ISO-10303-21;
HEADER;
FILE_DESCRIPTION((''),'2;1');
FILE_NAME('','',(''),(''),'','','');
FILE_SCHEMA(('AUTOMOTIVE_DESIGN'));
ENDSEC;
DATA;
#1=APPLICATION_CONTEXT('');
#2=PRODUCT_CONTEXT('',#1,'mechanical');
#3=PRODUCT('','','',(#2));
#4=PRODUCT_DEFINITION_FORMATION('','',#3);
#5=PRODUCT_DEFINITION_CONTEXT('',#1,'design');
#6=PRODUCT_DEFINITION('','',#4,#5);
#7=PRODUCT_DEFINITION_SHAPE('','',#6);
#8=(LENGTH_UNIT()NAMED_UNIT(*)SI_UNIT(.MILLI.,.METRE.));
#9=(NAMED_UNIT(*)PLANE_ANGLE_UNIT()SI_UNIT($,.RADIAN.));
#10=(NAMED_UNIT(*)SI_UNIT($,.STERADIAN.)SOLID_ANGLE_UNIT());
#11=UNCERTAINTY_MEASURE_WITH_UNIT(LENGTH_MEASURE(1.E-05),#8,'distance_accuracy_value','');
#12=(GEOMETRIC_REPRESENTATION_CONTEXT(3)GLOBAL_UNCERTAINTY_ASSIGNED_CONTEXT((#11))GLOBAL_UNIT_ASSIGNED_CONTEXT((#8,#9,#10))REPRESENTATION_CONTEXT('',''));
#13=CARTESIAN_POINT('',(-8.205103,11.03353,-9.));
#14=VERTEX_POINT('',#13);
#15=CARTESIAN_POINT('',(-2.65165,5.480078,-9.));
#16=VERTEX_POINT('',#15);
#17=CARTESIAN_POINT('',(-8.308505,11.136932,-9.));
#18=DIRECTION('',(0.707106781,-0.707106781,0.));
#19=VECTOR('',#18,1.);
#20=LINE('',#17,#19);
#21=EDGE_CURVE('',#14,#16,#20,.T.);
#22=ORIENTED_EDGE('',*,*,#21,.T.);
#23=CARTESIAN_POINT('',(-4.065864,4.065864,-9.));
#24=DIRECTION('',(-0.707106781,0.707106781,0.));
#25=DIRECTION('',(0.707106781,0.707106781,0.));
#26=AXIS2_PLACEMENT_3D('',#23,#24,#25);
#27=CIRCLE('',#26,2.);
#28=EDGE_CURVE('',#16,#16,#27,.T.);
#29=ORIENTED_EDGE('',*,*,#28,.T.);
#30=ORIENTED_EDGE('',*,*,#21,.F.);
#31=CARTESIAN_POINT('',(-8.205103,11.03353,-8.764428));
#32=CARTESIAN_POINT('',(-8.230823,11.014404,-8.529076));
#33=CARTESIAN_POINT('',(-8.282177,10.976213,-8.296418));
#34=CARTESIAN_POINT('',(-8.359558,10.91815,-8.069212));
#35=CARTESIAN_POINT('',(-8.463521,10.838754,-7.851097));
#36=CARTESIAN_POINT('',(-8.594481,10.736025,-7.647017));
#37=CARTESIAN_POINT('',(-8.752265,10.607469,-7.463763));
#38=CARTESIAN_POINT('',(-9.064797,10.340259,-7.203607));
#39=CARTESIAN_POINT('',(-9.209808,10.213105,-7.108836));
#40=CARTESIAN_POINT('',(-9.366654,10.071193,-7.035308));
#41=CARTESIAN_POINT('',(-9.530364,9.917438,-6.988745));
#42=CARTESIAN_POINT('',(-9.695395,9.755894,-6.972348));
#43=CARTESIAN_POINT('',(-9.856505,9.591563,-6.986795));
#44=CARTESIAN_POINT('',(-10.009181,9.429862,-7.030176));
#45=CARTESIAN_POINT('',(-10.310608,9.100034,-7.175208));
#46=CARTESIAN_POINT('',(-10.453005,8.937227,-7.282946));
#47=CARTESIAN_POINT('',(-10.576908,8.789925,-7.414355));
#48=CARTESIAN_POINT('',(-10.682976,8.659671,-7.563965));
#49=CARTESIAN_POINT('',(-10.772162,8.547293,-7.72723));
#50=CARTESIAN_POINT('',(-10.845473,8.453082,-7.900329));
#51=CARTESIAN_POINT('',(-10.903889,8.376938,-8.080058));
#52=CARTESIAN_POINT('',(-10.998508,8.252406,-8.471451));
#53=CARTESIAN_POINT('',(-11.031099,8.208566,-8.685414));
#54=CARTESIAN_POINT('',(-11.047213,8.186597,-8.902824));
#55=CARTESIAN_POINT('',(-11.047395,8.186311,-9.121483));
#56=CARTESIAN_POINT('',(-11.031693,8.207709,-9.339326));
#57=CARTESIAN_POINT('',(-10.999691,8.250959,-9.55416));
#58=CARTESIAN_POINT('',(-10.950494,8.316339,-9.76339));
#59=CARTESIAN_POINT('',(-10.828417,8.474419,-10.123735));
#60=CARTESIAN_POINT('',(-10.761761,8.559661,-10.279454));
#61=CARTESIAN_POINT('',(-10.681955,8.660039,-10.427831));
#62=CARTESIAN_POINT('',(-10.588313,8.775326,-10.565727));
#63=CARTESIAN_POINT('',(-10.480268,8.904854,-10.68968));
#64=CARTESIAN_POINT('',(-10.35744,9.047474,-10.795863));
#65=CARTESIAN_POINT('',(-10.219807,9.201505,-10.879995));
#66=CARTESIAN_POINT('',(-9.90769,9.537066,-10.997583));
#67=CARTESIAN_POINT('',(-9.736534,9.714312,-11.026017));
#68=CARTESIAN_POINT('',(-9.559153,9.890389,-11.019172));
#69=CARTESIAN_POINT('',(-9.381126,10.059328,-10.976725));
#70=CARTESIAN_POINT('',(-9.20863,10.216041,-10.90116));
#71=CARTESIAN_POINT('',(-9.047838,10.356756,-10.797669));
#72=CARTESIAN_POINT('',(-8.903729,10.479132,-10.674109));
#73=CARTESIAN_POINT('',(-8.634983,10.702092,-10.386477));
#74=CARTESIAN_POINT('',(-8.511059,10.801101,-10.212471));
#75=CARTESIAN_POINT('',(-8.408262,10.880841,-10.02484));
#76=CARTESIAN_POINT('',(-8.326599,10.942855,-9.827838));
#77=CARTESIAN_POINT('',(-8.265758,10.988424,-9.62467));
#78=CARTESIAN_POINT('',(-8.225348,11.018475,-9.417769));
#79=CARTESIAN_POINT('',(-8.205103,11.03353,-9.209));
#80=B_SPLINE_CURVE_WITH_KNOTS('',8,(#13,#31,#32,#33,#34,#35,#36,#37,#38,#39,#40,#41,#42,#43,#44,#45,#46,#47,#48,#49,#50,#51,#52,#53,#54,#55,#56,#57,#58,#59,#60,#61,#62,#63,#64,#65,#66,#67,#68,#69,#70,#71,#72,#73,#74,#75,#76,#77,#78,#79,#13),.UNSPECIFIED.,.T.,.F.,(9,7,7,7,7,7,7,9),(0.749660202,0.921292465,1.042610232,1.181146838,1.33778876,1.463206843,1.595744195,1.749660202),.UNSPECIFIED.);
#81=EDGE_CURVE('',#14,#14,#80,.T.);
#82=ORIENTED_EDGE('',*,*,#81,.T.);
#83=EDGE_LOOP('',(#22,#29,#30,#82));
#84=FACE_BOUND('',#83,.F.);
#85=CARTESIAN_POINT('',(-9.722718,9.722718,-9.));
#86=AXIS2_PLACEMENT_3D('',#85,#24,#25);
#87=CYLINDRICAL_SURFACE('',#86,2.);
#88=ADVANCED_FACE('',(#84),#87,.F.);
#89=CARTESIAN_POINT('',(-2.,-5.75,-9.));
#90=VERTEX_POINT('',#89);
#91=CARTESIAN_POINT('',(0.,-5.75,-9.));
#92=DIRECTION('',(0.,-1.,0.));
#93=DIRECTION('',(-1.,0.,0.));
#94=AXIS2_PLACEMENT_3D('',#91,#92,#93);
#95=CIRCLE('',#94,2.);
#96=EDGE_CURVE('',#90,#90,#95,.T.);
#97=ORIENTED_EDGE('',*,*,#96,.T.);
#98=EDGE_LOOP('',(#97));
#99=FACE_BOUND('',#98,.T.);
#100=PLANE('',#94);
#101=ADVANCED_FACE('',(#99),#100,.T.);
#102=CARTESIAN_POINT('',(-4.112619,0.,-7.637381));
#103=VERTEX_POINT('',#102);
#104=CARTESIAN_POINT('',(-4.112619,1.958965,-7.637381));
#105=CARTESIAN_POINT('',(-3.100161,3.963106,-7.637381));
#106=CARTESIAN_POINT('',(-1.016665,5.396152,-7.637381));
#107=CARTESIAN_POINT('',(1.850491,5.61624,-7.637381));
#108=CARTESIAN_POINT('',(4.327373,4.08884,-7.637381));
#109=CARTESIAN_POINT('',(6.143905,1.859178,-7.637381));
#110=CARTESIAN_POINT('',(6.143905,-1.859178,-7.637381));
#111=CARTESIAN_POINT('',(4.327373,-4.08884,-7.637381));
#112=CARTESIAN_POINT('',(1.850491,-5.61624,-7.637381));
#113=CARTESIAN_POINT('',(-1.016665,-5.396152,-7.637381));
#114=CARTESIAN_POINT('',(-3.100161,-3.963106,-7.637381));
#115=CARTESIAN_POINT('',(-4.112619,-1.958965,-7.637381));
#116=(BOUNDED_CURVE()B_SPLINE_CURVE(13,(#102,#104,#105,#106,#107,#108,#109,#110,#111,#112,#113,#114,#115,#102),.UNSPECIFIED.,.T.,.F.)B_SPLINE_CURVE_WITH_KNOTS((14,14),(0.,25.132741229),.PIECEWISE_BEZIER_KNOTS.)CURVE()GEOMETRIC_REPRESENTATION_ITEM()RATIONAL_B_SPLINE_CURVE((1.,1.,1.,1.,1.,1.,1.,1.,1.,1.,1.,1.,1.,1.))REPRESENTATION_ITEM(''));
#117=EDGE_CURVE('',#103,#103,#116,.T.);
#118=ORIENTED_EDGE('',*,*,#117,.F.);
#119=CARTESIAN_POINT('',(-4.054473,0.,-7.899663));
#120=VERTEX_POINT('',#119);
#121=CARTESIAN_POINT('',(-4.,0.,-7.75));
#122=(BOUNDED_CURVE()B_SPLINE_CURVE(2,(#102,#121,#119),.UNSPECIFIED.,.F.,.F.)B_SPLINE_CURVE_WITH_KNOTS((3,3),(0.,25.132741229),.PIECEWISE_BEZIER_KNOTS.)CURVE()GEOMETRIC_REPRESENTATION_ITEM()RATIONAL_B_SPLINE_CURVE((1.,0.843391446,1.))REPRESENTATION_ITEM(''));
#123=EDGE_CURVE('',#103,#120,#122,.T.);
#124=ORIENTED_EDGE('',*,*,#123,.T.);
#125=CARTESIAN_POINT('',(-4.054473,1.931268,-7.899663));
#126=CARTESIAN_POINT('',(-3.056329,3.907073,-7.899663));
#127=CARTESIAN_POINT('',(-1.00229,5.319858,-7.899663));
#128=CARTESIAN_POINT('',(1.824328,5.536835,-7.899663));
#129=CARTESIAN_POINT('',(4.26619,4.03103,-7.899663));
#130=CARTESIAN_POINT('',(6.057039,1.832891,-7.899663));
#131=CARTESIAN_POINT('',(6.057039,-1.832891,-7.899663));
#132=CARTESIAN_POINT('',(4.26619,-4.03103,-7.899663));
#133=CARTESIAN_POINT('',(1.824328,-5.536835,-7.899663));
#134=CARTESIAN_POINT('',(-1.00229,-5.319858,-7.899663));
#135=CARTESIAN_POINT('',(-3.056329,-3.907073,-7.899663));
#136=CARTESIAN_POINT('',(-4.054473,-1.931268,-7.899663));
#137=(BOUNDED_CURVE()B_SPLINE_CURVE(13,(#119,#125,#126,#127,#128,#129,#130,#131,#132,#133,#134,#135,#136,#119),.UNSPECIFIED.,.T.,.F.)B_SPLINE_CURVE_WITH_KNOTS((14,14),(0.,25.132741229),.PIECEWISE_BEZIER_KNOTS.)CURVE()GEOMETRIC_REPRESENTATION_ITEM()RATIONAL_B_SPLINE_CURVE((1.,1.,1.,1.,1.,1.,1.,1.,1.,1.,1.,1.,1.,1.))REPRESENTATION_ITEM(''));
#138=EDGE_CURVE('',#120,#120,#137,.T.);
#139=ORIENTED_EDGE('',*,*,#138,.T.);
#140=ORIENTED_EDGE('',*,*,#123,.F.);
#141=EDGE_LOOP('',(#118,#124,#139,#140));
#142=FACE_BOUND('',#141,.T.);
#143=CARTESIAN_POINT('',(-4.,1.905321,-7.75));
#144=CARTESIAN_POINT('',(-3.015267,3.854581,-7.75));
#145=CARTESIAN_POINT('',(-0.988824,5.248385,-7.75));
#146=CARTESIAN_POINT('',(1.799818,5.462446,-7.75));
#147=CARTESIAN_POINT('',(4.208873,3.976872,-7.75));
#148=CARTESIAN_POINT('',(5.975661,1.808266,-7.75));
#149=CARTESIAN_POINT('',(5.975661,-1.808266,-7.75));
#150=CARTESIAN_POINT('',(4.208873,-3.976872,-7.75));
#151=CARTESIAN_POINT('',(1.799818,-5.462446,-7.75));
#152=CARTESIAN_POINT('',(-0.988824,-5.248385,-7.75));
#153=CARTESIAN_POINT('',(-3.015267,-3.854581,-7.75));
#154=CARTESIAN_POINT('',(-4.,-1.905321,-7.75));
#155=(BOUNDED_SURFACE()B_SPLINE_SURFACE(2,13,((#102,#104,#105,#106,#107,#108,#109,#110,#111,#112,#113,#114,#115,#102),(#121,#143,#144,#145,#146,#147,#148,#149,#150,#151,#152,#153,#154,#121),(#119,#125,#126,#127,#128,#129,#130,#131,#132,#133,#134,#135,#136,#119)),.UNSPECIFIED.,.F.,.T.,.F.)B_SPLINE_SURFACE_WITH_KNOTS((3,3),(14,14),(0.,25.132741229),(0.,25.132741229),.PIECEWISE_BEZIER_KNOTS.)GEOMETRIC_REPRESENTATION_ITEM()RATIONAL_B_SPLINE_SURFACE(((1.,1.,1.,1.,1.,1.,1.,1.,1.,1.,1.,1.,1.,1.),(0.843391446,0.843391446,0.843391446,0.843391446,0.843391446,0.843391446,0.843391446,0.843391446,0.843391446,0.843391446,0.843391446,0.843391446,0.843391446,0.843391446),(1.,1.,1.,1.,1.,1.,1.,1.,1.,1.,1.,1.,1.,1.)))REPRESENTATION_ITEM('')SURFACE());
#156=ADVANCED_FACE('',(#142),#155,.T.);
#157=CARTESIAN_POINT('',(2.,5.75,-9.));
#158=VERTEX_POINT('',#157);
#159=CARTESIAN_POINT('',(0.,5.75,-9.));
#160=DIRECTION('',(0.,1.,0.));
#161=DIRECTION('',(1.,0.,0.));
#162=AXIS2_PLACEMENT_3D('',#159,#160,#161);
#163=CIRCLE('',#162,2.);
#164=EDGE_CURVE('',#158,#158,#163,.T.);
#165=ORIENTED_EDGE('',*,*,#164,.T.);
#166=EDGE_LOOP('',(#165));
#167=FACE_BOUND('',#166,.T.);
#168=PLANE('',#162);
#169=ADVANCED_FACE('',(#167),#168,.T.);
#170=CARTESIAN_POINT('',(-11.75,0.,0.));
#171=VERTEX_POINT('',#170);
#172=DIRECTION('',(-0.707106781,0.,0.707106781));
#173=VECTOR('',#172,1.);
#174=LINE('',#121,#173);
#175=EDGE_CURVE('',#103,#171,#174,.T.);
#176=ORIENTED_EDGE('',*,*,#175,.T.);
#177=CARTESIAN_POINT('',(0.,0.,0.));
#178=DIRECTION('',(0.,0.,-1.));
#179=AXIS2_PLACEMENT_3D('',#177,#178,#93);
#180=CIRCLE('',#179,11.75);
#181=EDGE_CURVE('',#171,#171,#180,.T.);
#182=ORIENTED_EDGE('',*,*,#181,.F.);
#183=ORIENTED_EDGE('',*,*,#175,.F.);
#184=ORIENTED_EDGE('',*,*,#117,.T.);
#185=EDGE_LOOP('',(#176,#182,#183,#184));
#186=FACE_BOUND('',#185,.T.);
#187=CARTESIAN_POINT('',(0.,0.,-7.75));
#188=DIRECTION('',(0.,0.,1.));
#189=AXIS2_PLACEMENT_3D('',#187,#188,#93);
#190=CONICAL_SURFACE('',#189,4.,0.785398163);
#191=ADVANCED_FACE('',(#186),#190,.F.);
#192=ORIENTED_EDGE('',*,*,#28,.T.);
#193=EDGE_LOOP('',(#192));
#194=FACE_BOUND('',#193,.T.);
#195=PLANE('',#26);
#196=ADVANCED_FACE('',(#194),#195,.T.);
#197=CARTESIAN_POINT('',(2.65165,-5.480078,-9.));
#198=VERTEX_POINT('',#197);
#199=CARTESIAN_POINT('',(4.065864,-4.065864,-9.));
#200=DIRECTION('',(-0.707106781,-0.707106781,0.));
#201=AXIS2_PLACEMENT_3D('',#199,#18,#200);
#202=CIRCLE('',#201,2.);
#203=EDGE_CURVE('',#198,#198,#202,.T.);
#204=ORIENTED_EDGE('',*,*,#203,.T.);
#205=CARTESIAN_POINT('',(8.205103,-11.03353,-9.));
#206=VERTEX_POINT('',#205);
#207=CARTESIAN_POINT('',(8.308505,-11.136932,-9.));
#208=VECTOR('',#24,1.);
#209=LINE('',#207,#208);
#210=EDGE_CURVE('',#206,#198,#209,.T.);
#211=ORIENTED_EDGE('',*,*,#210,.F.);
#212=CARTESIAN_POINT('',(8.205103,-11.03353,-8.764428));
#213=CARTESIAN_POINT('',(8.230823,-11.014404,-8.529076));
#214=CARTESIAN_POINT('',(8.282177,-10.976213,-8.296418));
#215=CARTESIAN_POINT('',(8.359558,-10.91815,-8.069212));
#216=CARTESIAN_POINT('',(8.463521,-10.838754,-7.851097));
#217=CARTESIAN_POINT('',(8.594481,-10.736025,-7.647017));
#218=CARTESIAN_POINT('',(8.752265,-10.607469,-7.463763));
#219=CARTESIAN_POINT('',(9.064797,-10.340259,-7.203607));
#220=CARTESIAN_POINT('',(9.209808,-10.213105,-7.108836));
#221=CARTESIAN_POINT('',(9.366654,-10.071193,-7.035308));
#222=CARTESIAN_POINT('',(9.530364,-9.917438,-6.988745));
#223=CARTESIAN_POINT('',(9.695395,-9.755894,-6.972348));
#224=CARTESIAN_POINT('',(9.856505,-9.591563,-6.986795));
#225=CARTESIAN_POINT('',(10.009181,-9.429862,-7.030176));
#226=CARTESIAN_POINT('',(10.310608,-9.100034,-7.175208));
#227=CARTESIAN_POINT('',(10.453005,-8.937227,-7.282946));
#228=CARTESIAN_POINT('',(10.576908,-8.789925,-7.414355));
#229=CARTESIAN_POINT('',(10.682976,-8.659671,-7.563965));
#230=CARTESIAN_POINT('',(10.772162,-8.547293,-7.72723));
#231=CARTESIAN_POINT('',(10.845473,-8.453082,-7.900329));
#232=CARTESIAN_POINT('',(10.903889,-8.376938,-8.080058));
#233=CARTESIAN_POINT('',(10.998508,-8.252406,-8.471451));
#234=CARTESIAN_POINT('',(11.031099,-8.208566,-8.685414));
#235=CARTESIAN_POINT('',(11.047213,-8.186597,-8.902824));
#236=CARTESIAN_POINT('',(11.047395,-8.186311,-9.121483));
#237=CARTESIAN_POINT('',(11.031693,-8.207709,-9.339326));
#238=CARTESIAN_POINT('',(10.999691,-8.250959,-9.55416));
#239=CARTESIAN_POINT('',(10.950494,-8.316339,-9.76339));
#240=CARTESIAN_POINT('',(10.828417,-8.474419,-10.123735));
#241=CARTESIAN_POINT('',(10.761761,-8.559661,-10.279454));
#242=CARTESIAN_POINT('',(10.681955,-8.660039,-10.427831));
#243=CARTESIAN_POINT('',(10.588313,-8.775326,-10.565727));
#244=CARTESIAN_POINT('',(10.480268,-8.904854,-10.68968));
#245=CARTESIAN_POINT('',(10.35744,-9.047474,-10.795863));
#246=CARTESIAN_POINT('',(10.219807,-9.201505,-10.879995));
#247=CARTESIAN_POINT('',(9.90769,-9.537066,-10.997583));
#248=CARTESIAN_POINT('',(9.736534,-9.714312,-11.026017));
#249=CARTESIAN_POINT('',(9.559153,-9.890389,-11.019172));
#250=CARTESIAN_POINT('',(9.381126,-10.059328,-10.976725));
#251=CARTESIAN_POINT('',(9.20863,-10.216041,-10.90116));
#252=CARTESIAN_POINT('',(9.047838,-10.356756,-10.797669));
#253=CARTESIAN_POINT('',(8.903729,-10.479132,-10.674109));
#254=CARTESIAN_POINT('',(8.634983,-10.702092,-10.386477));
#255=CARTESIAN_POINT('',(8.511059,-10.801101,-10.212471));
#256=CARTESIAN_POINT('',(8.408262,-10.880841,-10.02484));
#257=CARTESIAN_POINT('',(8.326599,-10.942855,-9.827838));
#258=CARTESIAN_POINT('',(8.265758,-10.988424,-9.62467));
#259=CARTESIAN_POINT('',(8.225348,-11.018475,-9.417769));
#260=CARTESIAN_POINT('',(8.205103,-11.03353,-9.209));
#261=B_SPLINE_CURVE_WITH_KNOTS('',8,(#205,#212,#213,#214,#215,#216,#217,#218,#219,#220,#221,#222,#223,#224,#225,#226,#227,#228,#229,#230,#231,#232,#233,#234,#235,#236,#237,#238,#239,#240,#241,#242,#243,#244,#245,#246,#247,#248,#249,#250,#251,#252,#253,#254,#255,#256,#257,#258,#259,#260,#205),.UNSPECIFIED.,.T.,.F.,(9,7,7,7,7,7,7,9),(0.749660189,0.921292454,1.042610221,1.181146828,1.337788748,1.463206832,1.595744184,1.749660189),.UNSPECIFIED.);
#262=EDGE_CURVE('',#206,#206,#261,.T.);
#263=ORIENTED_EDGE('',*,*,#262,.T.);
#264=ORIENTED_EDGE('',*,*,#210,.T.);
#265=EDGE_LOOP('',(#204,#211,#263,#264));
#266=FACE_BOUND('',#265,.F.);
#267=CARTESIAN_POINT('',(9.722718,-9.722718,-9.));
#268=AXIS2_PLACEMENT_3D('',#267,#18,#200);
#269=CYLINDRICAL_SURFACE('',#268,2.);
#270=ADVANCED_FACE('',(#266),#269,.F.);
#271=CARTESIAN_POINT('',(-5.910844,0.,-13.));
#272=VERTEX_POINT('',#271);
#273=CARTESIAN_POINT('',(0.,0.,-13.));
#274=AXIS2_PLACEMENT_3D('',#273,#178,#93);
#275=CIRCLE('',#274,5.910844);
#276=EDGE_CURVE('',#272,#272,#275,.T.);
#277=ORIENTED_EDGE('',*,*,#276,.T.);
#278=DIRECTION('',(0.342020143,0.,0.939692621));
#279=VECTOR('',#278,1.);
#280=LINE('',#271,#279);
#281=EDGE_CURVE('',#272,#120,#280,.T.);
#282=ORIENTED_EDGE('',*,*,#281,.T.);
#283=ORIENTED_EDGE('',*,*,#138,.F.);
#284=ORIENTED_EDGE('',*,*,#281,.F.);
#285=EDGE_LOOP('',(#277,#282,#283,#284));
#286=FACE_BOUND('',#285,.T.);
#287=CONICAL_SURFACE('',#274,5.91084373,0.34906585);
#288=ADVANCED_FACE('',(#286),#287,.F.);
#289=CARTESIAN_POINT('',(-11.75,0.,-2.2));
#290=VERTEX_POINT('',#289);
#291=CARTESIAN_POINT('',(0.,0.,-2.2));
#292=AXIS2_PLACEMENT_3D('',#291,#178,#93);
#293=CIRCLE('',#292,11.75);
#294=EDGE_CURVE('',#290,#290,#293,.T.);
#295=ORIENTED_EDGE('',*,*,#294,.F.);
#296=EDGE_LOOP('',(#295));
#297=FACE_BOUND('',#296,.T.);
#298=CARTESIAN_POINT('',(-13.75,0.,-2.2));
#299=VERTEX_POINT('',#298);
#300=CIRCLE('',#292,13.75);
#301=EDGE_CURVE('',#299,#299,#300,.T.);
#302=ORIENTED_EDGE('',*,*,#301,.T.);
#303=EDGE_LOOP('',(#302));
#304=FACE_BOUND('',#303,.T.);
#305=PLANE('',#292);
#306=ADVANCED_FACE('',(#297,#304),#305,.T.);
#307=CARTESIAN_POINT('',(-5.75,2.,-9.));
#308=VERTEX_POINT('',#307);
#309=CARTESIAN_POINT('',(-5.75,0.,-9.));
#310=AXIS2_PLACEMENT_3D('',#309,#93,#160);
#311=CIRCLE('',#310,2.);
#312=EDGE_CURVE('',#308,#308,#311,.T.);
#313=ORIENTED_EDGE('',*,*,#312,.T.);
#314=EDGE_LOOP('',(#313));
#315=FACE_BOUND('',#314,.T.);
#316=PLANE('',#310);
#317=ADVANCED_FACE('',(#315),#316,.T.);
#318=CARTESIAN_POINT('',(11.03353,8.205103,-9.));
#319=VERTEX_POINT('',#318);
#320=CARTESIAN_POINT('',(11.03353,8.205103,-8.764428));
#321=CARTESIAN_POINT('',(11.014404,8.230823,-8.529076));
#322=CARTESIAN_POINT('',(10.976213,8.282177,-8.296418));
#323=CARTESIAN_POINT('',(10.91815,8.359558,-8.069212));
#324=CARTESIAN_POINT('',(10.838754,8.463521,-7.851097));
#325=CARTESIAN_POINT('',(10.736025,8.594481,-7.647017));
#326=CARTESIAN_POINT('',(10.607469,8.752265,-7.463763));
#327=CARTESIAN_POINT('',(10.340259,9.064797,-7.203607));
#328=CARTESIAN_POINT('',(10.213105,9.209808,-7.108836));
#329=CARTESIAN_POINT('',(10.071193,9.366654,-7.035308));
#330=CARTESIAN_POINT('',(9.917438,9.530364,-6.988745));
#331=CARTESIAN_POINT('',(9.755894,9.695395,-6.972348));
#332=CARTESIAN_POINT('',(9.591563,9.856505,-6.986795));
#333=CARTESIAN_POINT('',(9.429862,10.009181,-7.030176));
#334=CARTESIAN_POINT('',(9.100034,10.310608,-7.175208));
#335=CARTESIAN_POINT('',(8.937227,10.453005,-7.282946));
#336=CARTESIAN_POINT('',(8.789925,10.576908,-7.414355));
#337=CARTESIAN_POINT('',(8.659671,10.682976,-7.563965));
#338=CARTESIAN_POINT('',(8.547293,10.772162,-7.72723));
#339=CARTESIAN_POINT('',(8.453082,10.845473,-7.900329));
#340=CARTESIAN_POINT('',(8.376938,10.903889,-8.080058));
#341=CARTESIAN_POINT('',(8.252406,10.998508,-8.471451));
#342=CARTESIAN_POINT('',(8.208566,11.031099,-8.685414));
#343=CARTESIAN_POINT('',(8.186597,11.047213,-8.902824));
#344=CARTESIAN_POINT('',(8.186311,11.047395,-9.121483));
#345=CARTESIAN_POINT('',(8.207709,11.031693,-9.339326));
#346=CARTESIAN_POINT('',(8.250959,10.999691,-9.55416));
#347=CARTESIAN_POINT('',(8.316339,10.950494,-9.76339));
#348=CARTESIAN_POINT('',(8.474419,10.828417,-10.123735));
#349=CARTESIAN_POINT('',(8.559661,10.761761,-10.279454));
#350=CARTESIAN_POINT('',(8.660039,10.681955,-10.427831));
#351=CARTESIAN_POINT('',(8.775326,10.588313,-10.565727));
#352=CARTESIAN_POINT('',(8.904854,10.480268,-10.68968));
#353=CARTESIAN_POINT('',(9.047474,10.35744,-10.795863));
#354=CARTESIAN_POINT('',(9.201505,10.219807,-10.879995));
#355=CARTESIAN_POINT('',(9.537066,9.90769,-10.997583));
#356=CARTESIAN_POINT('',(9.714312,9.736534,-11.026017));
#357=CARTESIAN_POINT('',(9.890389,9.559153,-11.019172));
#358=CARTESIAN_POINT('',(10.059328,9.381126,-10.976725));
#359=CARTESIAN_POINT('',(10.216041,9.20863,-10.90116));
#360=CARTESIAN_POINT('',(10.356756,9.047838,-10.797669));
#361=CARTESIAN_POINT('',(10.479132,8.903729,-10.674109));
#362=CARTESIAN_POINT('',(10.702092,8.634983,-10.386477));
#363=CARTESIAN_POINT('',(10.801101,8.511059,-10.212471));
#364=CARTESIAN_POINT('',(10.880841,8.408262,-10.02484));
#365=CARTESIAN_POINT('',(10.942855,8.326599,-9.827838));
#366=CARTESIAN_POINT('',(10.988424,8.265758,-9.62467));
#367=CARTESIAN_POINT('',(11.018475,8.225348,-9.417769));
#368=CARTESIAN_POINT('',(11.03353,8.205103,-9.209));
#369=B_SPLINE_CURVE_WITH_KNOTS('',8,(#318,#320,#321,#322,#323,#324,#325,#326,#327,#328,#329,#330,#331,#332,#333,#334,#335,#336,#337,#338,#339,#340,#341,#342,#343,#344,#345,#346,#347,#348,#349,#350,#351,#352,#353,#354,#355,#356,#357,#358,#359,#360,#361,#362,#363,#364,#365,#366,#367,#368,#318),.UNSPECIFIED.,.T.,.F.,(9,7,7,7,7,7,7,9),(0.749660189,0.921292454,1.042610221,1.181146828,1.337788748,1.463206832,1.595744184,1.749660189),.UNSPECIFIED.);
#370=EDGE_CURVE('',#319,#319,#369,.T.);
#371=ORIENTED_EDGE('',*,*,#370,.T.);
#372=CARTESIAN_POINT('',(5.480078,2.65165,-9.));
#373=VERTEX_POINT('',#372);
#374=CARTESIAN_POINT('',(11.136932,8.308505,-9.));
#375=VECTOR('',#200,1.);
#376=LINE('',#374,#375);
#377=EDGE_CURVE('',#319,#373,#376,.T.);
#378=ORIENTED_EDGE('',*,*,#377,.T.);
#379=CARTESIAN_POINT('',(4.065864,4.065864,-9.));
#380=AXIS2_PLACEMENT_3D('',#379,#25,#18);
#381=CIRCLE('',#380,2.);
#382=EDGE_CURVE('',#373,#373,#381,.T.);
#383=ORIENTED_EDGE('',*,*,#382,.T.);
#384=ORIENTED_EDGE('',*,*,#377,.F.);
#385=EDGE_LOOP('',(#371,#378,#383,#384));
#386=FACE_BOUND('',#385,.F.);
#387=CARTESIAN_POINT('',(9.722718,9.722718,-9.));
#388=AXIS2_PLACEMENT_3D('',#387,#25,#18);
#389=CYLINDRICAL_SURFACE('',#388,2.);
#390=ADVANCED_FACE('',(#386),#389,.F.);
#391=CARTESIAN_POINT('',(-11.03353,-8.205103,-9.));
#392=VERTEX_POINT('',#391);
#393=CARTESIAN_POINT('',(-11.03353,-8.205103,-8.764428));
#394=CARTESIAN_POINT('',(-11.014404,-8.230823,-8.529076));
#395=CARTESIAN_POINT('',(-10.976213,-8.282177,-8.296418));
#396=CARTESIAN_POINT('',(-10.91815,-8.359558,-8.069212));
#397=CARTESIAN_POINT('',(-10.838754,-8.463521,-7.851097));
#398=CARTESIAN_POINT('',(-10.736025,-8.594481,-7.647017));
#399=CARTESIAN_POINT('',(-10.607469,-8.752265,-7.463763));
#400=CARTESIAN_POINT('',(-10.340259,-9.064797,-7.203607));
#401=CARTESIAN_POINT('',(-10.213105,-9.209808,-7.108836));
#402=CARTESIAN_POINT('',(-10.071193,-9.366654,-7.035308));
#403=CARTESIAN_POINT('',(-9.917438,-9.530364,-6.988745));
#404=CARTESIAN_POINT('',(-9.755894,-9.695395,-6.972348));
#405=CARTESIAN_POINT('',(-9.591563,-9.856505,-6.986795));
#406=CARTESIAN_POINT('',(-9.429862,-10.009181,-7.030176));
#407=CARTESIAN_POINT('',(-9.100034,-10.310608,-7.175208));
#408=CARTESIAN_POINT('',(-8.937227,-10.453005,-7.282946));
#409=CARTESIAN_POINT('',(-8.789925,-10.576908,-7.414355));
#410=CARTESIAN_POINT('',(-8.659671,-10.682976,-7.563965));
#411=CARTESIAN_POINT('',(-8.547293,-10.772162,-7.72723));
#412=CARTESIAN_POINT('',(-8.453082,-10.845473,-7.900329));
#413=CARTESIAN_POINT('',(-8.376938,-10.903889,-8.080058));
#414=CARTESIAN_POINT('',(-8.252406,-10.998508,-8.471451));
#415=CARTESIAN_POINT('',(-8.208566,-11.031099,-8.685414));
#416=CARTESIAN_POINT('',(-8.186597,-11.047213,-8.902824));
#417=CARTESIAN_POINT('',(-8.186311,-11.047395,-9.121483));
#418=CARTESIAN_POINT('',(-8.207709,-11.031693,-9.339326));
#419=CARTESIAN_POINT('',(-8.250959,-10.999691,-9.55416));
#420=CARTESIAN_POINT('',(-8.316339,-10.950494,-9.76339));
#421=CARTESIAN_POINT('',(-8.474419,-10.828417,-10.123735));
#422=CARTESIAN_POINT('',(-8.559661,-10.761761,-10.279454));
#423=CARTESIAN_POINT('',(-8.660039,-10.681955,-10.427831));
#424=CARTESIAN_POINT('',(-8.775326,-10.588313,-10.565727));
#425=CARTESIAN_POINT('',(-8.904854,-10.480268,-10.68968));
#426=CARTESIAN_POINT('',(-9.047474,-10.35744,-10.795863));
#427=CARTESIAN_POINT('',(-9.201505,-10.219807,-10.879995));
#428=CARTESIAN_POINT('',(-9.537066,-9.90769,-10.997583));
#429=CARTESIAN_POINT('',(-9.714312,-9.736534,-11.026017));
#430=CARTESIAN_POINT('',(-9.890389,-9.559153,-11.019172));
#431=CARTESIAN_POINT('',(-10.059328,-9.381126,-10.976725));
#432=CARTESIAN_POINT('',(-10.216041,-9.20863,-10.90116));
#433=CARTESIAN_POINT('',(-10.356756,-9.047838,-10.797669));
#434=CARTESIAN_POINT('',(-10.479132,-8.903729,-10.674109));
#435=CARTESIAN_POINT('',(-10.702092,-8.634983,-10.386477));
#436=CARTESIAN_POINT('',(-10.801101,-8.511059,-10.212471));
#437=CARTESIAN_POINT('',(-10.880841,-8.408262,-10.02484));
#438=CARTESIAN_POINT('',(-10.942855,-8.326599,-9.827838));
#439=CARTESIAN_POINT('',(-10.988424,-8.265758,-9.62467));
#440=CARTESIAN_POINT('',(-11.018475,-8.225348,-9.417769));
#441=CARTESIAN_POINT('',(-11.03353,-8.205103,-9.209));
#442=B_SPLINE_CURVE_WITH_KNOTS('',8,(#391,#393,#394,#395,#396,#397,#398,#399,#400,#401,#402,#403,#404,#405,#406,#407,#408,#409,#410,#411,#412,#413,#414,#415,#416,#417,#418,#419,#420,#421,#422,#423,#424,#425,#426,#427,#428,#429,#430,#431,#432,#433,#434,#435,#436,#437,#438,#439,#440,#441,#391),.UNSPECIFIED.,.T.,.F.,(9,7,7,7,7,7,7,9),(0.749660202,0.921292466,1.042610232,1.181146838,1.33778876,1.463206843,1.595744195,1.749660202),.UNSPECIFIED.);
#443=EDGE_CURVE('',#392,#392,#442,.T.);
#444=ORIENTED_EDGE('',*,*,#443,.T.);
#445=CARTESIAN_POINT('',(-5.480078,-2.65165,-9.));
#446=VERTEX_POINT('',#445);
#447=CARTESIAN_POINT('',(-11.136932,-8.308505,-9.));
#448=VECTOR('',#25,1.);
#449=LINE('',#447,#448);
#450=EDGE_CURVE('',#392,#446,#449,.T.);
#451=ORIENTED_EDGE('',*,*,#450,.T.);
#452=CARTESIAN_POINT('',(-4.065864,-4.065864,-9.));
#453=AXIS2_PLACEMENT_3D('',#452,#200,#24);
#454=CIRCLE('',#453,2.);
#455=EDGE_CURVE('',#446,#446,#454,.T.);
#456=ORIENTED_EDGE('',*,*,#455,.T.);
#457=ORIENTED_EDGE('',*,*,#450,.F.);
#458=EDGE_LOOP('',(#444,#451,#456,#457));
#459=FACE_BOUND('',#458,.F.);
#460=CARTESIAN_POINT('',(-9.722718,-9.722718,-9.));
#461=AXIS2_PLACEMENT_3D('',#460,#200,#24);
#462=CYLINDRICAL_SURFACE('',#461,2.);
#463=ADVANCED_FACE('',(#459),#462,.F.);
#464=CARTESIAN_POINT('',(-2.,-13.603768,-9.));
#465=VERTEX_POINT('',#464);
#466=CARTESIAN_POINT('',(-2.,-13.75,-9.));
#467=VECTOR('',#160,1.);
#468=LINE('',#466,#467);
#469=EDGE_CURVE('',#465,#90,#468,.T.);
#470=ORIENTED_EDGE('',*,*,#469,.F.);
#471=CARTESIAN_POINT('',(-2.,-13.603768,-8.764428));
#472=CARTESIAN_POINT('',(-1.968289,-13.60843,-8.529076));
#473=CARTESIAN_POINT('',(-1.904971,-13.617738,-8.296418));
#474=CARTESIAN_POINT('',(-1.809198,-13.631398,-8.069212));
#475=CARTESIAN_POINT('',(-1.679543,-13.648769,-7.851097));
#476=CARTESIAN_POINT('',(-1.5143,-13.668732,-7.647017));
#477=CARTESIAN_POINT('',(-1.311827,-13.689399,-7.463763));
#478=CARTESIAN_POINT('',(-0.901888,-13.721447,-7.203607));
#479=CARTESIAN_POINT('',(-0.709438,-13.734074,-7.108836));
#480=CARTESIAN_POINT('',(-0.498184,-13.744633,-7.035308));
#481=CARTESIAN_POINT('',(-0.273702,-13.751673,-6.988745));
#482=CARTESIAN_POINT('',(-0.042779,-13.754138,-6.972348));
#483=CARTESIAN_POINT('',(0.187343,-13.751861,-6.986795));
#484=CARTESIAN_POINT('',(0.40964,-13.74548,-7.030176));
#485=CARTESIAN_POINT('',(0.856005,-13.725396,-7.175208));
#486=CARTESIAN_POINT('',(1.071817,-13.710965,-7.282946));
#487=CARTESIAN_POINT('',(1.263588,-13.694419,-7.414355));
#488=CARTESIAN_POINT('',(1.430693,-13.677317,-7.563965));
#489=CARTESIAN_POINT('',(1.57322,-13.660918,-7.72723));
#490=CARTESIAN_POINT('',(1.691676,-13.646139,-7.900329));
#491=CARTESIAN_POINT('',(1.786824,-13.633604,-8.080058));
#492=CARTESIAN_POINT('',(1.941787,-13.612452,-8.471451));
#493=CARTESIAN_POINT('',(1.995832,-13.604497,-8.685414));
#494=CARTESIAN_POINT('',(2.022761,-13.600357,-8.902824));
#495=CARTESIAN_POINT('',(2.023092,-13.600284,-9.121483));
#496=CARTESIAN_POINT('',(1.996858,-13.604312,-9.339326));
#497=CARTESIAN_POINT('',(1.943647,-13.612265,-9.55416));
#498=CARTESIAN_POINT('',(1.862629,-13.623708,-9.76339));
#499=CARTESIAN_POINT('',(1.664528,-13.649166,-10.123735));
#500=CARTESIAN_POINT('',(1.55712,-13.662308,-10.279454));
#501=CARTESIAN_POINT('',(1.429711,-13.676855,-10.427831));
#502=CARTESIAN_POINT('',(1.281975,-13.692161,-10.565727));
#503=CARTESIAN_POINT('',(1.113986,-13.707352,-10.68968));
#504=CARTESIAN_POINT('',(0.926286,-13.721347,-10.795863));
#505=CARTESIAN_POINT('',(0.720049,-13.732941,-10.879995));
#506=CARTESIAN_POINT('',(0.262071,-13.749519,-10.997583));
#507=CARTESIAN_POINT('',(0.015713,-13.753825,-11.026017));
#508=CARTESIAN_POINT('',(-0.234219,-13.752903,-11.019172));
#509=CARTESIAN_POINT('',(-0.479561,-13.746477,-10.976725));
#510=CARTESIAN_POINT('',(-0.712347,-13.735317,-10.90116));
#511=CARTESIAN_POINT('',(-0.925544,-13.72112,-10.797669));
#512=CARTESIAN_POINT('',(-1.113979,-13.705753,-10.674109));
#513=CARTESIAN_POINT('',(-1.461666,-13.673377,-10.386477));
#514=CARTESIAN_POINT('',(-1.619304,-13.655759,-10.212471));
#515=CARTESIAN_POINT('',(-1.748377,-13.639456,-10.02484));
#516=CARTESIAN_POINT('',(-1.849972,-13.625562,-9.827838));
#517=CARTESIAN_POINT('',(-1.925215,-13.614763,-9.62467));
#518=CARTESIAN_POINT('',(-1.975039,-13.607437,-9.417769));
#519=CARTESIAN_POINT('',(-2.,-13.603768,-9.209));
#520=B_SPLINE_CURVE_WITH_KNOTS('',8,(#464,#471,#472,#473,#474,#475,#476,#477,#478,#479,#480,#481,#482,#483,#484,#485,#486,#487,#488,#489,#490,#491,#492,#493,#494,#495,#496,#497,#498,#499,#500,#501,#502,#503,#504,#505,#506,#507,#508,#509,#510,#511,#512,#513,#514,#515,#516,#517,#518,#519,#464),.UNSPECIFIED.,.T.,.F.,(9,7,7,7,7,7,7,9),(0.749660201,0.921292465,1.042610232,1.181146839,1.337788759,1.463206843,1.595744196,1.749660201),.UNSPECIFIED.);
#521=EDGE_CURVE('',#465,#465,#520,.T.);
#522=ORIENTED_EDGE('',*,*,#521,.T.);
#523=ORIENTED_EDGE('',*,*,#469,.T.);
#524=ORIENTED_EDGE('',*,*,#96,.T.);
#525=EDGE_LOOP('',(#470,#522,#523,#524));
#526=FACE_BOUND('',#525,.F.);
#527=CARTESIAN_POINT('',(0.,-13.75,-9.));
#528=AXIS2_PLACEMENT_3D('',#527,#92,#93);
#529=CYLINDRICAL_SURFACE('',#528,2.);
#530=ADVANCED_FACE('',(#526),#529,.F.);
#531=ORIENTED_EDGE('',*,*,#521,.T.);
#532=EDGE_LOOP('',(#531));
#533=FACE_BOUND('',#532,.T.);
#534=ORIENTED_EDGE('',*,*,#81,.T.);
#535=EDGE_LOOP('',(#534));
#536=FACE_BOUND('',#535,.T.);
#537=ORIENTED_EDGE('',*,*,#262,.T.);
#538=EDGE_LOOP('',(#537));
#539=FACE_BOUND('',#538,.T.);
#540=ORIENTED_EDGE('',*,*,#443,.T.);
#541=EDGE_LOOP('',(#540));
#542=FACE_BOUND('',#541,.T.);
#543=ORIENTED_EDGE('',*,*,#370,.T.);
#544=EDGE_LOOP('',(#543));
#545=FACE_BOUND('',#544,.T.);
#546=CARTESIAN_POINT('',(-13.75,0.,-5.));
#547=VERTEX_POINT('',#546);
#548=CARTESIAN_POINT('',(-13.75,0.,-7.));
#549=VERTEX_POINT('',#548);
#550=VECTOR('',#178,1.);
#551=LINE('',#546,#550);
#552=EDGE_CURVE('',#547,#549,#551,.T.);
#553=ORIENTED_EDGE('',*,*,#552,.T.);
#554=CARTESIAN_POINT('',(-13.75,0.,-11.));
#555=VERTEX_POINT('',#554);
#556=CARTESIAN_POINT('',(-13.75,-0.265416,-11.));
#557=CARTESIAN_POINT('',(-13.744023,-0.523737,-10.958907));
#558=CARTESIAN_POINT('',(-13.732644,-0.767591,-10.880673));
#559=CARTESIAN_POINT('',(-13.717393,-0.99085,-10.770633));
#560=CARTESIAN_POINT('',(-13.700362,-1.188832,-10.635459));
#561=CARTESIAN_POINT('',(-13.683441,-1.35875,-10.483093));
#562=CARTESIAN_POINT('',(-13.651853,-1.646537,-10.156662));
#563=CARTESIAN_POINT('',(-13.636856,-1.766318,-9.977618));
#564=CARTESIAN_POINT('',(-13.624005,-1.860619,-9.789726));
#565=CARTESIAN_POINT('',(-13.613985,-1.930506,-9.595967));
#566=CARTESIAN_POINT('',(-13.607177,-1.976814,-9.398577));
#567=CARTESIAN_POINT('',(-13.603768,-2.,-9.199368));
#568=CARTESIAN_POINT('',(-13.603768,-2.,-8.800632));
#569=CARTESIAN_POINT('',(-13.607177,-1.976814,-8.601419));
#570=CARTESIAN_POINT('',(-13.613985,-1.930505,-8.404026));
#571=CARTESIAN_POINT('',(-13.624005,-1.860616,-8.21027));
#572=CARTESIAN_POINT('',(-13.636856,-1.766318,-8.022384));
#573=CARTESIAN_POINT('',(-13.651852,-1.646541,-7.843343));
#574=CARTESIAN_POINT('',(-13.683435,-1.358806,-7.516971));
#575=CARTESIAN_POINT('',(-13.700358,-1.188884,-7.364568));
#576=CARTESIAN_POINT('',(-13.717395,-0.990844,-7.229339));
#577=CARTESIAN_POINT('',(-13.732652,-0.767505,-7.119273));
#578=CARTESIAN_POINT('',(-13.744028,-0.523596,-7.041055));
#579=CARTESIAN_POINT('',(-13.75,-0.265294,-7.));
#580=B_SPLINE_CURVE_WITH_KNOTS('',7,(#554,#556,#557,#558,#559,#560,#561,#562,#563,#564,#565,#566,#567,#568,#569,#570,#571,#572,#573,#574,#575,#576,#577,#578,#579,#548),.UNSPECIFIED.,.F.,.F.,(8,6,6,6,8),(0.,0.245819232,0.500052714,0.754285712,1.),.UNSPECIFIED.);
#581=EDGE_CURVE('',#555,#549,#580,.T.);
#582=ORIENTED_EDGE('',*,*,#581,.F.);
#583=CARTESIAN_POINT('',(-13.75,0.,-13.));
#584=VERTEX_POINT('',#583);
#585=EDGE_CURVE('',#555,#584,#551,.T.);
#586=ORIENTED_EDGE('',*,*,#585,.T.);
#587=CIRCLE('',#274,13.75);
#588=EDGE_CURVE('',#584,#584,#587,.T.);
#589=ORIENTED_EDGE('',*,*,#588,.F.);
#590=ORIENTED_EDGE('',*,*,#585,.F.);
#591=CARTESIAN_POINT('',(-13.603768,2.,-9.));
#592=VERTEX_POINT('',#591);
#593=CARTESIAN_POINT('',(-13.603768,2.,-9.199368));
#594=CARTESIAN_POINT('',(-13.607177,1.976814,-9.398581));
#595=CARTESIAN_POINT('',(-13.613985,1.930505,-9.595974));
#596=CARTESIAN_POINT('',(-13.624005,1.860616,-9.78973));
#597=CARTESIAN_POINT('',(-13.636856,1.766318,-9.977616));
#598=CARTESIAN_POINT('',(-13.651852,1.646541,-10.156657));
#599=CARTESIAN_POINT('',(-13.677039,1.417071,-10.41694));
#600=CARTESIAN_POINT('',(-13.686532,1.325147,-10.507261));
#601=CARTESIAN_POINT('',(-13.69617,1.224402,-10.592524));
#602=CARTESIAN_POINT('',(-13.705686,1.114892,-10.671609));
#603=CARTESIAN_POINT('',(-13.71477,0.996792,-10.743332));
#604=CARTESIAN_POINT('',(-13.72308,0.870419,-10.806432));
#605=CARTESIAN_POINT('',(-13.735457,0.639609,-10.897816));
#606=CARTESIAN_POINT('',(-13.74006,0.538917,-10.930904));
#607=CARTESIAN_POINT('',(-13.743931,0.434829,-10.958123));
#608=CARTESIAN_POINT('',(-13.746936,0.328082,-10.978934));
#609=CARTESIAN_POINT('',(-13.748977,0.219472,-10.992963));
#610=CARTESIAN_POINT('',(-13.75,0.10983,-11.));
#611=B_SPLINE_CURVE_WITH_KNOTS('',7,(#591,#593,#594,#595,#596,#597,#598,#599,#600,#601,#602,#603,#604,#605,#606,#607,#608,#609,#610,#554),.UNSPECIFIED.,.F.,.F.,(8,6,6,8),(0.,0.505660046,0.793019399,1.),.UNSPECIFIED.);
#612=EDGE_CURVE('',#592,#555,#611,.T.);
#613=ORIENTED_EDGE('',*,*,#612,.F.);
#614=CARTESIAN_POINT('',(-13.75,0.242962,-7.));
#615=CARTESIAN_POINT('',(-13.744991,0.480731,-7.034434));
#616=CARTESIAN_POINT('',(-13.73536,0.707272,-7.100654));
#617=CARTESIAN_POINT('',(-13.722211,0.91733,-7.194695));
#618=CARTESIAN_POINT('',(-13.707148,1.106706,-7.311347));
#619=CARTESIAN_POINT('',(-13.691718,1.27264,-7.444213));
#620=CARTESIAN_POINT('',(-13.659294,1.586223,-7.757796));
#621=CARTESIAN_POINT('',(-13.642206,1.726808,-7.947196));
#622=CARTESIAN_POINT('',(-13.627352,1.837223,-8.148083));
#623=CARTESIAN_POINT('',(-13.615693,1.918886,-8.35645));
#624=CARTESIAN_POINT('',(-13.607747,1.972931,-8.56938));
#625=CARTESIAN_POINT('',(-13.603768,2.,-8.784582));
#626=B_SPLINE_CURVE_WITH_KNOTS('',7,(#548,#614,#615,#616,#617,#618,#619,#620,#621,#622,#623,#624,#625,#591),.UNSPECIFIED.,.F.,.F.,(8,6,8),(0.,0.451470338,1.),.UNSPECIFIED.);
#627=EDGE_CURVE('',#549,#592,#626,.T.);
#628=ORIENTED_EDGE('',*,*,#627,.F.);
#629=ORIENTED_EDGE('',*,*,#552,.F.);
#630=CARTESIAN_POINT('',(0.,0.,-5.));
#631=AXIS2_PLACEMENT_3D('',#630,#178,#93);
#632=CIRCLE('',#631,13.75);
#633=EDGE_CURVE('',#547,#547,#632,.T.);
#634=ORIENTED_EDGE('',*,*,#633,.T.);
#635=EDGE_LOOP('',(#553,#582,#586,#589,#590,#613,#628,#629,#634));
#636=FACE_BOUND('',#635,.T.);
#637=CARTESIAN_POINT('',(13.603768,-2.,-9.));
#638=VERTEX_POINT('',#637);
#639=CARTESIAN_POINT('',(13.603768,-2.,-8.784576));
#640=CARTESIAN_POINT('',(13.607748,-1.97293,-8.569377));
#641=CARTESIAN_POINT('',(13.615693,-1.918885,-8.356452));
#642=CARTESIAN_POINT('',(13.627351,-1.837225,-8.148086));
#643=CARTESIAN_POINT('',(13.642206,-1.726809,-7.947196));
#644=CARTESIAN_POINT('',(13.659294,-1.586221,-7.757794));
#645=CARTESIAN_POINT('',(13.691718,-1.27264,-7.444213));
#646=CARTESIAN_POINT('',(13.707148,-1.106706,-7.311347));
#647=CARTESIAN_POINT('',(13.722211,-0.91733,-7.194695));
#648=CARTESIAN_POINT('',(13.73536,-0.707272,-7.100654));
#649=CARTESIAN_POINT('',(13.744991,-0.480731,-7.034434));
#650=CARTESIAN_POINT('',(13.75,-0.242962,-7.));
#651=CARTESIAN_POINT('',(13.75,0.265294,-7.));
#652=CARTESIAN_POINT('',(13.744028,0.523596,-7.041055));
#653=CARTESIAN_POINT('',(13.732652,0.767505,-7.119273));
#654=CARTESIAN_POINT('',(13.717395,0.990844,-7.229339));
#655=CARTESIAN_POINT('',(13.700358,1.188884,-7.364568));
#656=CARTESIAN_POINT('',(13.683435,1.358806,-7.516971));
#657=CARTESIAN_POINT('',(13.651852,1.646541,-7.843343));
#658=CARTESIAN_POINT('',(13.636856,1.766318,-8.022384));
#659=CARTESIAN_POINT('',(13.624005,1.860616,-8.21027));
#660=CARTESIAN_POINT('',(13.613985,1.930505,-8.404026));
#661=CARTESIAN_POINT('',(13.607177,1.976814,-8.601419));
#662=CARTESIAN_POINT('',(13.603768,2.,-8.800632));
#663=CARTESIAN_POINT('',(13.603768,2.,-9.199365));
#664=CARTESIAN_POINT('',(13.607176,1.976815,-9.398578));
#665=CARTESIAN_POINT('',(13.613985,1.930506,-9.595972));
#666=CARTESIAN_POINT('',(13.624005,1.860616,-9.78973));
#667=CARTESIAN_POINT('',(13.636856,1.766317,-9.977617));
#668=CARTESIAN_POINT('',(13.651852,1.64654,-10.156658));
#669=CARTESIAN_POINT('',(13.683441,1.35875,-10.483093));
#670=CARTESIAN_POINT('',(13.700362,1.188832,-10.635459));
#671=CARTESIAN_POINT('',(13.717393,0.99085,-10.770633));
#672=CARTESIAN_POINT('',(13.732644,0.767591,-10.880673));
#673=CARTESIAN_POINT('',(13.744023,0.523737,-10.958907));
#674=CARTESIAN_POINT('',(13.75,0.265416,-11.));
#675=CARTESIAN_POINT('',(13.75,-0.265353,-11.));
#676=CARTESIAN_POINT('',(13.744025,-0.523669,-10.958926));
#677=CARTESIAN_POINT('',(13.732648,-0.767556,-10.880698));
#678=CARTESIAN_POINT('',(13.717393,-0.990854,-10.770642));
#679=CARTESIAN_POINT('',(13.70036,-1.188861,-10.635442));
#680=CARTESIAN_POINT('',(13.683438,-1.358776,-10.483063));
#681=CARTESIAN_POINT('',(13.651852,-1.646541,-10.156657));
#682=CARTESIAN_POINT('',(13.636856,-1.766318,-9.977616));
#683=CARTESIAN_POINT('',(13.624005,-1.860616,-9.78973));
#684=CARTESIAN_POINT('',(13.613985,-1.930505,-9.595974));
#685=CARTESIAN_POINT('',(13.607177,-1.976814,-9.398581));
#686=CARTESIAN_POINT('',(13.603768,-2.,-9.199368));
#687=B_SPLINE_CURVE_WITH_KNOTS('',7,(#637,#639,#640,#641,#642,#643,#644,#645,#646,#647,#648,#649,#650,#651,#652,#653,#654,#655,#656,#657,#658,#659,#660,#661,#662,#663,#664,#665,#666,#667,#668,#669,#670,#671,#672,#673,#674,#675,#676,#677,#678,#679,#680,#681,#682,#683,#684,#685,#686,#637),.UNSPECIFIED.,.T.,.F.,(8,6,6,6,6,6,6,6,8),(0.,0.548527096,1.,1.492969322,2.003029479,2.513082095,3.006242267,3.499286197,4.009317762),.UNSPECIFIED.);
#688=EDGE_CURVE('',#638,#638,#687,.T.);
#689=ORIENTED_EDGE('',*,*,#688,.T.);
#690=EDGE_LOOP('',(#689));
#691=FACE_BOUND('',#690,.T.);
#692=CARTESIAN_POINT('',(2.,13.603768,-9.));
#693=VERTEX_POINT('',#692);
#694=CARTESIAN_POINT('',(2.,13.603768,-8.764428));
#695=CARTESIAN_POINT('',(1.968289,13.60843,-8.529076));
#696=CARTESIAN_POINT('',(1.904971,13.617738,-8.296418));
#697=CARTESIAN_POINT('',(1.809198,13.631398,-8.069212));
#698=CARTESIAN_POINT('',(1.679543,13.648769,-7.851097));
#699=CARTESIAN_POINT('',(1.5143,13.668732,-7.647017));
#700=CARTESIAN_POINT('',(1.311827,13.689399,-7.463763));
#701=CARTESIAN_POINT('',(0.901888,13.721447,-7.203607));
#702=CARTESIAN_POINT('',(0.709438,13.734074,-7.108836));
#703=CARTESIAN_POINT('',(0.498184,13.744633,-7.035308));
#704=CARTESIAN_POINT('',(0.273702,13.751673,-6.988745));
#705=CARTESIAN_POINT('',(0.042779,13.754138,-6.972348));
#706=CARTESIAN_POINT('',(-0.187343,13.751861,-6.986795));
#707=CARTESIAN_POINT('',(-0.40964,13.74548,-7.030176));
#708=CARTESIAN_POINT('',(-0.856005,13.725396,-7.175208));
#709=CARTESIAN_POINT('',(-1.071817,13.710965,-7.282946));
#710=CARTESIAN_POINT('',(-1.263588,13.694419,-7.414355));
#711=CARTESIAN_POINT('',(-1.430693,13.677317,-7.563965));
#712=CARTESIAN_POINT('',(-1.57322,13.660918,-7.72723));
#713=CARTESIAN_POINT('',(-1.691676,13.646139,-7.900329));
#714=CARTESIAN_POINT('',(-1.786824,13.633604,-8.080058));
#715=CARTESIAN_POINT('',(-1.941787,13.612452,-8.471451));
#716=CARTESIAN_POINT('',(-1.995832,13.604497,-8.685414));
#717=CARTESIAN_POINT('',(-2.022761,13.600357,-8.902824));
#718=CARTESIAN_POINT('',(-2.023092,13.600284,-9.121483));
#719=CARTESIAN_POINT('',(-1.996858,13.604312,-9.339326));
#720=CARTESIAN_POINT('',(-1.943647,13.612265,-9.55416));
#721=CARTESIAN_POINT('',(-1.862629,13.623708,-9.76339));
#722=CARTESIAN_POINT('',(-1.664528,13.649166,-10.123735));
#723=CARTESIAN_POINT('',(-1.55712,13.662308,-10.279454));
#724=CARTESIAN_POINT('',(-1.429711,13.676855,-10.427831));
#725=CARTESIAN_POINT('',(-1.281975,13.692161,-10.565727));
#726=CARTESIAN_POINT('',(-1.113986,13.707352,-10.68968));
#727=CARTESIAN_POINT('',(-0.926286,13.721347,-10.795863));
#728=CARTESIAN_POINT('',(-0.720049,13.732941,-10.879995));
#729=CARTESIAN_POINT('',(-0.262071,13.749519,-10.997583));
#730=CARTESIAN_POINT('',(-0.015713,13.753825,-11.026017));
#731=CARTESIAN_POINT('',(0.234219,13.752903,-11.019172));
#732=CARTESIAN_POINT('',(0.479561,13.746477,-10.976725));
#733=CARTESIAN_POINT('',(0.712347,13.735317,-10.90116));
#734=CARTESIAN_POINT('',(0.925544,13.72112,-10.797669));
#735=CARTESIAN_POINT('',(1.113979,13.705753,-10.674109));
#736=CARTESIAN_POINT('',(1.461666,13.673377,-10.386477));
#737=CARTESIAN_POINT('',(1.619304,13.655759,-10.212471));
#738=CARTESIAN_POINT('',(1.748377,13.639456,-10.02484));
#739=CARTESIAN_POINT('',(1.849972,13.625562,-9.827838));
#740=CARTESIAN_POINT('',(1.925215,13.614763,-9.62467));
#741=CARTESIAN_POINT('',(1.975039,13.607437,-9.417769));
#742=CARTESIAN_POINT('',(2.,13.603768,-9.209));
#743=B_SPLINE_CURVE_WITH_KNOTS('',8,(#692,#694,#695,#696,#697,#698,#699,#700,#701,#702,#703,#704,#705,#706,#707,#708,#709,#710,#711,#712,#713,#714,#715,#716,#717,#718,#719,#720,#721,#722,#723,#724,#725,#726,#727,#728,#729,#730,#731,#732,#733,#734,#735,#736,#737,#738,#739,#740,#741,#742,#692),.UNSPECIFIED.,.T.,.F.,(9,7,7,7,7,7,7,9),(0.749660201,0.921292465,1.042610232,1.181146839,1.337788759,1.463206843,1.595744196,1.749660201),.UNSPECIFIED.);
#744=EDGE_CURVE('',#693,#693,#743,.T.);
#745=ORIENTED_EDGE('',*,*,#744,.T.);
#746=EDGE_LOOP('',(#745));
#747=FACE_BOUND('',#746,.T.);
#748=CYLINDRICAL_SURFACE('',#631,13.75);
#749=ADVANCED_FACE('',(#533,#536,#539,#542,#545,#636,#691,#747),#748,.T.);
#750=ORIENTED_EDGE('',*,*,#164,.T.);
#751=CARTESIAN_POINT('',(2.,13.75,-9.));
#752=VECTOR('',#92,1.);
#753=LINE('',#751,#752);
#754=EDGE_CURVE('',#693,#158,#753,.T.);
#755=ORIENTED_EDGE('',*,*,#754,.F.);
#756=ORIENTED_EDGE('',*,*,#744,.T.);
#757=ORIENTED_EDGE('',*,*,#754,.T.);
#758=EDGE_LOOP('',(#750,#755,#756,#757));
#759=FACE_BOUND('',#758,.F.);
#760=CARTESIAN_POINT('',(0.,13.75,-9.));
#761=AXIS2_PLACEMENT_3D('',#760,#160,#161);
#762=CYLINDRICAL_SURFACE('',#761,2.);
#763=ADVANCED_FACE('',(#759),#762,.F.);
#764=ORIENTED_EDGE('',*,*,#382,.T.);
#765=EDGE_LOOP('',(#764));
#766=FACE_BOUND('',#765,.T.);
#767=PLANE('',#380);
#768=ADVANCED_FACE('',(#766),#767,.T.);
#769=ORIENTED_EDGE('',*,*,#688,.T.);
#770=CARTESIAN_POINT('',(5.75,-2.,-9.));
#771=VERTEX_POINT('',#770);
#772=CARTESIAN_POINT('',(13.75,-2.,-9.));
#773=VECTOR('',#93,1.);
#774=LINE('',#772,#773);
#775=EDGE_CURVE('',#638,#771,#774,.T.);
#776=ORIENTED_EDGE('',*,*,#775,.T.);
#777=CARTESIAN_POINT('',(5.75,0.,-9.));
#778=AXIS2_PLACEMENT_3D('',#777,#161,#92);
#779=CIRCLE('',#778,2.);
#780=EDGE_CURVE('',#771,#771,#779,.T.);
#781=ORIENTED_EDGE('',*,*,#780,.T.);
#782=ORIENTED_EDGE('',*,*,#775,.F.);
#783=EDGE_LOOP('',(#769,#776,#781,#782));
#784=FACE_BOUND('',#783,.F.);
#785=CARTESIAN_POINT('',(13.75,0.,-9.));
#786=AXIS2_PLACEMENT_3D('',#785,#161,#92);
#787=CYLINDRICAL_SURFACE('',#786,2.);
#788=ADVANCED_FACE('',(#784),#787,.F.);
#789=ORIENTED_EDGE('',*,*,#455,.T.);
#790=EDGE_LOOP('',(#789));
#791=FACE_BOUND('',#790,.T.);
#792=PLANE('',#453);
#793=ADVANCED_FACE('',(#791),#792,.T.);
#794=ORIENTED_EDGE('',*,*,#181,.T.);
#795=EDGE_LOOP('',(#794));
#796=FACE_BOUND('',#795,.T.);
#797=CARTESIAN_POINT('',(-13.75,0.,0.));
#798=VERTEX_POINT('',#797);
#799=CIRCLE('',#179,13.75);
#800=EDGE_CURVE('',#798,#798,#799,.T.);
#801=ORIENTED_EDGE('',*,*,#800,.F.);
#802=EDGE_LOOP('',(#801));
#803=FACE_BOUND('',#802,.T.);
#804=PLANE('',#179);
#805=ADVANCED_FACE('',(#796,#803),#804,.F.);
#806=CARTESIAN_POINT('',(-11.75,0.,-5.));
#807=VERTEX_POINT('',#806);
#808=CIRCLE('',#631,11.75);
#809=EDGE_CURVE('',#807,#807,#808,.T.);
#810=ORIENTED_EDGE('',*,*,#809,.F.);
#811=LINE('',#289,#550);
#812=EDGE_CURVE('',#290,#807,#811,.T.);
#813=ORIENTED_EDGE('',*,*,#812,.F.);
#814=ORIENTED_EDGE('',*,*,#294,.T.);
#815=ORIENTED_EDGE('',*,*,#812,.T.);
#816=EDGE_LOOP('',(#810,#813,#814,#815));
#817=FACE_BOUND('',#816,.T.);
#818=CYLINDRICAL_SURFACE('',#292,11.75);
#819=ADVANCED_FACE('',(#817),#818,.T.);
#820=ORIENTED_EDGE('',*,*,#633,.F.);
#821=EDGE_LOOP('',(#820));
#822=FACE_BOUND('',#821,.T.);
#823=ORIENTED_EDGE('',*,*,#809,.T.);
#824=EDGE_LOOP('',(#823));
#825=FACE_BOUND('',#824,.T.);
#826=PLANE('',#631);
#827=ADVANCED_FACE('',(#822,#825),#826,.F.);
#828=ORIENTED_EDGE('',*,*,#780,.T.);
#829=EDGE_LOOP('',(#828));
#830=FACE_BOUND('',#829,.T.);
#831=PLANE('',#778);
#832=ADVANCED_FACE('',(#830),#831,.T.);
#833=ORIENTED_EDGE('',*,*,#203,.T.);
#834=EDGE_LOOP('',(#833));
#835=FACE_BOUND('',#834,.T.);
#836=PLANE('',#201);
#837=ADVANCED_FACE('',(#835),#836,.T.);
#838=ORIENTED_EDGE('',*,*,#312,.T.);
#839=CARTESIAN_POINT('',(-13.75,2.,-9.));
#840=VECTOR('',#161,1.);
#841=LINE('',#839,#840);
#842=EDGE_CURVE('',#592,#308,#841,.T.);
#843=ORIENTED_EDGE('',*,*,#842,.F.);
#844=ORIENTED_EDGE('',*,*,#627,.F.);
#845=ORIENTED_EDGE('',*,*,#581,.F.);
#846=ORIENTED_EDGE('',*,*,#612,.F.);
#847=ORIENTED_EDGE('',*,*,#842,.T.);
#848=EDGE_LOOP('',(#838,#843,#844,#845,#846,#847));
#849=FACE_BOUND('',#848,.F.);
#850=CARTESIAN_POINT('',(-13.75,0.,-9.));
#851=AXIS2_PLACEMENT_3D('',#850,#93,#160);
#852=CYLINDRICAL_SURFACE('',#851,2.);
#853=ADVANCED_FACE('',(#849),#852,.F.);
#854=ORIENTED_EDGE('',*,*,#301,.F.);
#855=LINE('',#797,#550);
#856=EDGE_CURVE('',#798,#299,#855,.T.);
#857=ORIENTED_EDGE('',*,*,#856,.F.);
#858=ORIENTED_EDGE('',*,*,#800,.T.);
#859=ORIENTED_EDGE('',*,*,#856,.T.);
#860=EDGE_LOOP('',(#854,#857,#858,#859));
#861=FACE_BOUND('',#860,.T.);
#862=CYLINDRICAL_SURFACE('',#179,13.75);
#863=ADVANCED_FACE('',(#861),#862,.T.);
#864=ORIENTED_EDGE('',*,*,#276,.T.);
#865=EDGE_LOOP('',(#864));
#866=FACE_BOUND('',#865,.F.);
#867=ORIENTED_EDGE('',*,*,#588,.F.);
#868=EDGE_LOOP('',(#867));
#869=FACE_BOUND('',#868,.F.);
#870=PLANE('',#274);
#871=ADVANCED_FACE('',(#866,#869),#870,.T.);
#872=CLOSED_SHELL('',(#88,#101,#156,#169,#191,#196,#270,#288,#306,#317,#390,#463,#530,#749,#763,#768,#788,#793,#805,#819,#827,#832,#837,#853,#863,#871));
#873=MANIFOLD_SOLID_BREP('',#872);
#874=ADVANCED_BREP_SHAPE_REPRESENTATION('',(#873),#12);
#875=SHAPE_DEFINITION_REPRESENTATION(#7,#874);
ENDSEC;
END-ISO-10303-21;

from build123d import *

# Parameters (mm, degrees)
ESBO_O3_R             = 2
CORTE_EXTRUS_O1_DEPTH = 8
PADR_OCIRCULAR1_COUNT = 8
FILETE2_R             = 0.25


with BuildPart() as part:
    # Esboço2 → Revolução1 (revolve)
    with BuildSketch(Plane(origin=(0, 0, 0), x_dir=(1, 0, 0), z_dir=(0, 1, 0))):
        Polygon((0, 0), (-13.75, 0), (-13.75, 2.2), (-11.75, 2.2), (-11.75, 5), (-13.75, 5), (-13.75, 13), (-11.75, 13), (0, 13), align=None)
    revolve(axis=Axis((0, 0, 0), (0, 0, -1)))

    # Esboço3 → Corte-extrusão1 (cut)
    with BuildSketch(Plane(origin=(0, 13.75, 0), x_dir=(1, 0, 0), z_dir=(0, 1, 0))):
        with Locations((0, 9)):
            Circle(ESBO_O3_R)
    corte_extrus_o1 = extrude(amount=-CORTE_EXTRUS_O1_DEPTH, mode=Mode.SUBTRACT)

    # PadrãoCircular1: Corte-extrusão1 ×8 about axis
    padr_ocircular1_axis = Axis((0, 0, 0), (0, 0, -1))
    for i in range(1, PADR_OCIRCULAR1_COUNT):
        add(corte_extrus_o1.rotate(padr_ocircular1_axis, i * 360 / PADR_OCIRCULAR1_COUNT), mode=Mode.SUBTRACT)

    # Esboço12 → Corte-Revolução1 (revolve, cut)
    with BuildSketch(Plane(origin=(0, 0, 0), x_dir=(1, 0, 0), z_dir=(0, 1, 0))):
        Polygon((-4, 7.75), (-11.75, 0), (-2.977226814, 0), (0, 0), (0, 13), (-2.977226814, 13), (-5.91084373, 13), align=None)
    revolve(axis=Axis((0, 0, 0), (0, 0, -1)), mode=Mode.SUBTRACT)

    # Filete2
    filete2_edges = [part.edges().sort_by_distance(p)[0] for p in [
        (4, 0, -7.75),
    ]]
    fillet(filete2_edges, radius=FILETE2_R)


solid = part.part
